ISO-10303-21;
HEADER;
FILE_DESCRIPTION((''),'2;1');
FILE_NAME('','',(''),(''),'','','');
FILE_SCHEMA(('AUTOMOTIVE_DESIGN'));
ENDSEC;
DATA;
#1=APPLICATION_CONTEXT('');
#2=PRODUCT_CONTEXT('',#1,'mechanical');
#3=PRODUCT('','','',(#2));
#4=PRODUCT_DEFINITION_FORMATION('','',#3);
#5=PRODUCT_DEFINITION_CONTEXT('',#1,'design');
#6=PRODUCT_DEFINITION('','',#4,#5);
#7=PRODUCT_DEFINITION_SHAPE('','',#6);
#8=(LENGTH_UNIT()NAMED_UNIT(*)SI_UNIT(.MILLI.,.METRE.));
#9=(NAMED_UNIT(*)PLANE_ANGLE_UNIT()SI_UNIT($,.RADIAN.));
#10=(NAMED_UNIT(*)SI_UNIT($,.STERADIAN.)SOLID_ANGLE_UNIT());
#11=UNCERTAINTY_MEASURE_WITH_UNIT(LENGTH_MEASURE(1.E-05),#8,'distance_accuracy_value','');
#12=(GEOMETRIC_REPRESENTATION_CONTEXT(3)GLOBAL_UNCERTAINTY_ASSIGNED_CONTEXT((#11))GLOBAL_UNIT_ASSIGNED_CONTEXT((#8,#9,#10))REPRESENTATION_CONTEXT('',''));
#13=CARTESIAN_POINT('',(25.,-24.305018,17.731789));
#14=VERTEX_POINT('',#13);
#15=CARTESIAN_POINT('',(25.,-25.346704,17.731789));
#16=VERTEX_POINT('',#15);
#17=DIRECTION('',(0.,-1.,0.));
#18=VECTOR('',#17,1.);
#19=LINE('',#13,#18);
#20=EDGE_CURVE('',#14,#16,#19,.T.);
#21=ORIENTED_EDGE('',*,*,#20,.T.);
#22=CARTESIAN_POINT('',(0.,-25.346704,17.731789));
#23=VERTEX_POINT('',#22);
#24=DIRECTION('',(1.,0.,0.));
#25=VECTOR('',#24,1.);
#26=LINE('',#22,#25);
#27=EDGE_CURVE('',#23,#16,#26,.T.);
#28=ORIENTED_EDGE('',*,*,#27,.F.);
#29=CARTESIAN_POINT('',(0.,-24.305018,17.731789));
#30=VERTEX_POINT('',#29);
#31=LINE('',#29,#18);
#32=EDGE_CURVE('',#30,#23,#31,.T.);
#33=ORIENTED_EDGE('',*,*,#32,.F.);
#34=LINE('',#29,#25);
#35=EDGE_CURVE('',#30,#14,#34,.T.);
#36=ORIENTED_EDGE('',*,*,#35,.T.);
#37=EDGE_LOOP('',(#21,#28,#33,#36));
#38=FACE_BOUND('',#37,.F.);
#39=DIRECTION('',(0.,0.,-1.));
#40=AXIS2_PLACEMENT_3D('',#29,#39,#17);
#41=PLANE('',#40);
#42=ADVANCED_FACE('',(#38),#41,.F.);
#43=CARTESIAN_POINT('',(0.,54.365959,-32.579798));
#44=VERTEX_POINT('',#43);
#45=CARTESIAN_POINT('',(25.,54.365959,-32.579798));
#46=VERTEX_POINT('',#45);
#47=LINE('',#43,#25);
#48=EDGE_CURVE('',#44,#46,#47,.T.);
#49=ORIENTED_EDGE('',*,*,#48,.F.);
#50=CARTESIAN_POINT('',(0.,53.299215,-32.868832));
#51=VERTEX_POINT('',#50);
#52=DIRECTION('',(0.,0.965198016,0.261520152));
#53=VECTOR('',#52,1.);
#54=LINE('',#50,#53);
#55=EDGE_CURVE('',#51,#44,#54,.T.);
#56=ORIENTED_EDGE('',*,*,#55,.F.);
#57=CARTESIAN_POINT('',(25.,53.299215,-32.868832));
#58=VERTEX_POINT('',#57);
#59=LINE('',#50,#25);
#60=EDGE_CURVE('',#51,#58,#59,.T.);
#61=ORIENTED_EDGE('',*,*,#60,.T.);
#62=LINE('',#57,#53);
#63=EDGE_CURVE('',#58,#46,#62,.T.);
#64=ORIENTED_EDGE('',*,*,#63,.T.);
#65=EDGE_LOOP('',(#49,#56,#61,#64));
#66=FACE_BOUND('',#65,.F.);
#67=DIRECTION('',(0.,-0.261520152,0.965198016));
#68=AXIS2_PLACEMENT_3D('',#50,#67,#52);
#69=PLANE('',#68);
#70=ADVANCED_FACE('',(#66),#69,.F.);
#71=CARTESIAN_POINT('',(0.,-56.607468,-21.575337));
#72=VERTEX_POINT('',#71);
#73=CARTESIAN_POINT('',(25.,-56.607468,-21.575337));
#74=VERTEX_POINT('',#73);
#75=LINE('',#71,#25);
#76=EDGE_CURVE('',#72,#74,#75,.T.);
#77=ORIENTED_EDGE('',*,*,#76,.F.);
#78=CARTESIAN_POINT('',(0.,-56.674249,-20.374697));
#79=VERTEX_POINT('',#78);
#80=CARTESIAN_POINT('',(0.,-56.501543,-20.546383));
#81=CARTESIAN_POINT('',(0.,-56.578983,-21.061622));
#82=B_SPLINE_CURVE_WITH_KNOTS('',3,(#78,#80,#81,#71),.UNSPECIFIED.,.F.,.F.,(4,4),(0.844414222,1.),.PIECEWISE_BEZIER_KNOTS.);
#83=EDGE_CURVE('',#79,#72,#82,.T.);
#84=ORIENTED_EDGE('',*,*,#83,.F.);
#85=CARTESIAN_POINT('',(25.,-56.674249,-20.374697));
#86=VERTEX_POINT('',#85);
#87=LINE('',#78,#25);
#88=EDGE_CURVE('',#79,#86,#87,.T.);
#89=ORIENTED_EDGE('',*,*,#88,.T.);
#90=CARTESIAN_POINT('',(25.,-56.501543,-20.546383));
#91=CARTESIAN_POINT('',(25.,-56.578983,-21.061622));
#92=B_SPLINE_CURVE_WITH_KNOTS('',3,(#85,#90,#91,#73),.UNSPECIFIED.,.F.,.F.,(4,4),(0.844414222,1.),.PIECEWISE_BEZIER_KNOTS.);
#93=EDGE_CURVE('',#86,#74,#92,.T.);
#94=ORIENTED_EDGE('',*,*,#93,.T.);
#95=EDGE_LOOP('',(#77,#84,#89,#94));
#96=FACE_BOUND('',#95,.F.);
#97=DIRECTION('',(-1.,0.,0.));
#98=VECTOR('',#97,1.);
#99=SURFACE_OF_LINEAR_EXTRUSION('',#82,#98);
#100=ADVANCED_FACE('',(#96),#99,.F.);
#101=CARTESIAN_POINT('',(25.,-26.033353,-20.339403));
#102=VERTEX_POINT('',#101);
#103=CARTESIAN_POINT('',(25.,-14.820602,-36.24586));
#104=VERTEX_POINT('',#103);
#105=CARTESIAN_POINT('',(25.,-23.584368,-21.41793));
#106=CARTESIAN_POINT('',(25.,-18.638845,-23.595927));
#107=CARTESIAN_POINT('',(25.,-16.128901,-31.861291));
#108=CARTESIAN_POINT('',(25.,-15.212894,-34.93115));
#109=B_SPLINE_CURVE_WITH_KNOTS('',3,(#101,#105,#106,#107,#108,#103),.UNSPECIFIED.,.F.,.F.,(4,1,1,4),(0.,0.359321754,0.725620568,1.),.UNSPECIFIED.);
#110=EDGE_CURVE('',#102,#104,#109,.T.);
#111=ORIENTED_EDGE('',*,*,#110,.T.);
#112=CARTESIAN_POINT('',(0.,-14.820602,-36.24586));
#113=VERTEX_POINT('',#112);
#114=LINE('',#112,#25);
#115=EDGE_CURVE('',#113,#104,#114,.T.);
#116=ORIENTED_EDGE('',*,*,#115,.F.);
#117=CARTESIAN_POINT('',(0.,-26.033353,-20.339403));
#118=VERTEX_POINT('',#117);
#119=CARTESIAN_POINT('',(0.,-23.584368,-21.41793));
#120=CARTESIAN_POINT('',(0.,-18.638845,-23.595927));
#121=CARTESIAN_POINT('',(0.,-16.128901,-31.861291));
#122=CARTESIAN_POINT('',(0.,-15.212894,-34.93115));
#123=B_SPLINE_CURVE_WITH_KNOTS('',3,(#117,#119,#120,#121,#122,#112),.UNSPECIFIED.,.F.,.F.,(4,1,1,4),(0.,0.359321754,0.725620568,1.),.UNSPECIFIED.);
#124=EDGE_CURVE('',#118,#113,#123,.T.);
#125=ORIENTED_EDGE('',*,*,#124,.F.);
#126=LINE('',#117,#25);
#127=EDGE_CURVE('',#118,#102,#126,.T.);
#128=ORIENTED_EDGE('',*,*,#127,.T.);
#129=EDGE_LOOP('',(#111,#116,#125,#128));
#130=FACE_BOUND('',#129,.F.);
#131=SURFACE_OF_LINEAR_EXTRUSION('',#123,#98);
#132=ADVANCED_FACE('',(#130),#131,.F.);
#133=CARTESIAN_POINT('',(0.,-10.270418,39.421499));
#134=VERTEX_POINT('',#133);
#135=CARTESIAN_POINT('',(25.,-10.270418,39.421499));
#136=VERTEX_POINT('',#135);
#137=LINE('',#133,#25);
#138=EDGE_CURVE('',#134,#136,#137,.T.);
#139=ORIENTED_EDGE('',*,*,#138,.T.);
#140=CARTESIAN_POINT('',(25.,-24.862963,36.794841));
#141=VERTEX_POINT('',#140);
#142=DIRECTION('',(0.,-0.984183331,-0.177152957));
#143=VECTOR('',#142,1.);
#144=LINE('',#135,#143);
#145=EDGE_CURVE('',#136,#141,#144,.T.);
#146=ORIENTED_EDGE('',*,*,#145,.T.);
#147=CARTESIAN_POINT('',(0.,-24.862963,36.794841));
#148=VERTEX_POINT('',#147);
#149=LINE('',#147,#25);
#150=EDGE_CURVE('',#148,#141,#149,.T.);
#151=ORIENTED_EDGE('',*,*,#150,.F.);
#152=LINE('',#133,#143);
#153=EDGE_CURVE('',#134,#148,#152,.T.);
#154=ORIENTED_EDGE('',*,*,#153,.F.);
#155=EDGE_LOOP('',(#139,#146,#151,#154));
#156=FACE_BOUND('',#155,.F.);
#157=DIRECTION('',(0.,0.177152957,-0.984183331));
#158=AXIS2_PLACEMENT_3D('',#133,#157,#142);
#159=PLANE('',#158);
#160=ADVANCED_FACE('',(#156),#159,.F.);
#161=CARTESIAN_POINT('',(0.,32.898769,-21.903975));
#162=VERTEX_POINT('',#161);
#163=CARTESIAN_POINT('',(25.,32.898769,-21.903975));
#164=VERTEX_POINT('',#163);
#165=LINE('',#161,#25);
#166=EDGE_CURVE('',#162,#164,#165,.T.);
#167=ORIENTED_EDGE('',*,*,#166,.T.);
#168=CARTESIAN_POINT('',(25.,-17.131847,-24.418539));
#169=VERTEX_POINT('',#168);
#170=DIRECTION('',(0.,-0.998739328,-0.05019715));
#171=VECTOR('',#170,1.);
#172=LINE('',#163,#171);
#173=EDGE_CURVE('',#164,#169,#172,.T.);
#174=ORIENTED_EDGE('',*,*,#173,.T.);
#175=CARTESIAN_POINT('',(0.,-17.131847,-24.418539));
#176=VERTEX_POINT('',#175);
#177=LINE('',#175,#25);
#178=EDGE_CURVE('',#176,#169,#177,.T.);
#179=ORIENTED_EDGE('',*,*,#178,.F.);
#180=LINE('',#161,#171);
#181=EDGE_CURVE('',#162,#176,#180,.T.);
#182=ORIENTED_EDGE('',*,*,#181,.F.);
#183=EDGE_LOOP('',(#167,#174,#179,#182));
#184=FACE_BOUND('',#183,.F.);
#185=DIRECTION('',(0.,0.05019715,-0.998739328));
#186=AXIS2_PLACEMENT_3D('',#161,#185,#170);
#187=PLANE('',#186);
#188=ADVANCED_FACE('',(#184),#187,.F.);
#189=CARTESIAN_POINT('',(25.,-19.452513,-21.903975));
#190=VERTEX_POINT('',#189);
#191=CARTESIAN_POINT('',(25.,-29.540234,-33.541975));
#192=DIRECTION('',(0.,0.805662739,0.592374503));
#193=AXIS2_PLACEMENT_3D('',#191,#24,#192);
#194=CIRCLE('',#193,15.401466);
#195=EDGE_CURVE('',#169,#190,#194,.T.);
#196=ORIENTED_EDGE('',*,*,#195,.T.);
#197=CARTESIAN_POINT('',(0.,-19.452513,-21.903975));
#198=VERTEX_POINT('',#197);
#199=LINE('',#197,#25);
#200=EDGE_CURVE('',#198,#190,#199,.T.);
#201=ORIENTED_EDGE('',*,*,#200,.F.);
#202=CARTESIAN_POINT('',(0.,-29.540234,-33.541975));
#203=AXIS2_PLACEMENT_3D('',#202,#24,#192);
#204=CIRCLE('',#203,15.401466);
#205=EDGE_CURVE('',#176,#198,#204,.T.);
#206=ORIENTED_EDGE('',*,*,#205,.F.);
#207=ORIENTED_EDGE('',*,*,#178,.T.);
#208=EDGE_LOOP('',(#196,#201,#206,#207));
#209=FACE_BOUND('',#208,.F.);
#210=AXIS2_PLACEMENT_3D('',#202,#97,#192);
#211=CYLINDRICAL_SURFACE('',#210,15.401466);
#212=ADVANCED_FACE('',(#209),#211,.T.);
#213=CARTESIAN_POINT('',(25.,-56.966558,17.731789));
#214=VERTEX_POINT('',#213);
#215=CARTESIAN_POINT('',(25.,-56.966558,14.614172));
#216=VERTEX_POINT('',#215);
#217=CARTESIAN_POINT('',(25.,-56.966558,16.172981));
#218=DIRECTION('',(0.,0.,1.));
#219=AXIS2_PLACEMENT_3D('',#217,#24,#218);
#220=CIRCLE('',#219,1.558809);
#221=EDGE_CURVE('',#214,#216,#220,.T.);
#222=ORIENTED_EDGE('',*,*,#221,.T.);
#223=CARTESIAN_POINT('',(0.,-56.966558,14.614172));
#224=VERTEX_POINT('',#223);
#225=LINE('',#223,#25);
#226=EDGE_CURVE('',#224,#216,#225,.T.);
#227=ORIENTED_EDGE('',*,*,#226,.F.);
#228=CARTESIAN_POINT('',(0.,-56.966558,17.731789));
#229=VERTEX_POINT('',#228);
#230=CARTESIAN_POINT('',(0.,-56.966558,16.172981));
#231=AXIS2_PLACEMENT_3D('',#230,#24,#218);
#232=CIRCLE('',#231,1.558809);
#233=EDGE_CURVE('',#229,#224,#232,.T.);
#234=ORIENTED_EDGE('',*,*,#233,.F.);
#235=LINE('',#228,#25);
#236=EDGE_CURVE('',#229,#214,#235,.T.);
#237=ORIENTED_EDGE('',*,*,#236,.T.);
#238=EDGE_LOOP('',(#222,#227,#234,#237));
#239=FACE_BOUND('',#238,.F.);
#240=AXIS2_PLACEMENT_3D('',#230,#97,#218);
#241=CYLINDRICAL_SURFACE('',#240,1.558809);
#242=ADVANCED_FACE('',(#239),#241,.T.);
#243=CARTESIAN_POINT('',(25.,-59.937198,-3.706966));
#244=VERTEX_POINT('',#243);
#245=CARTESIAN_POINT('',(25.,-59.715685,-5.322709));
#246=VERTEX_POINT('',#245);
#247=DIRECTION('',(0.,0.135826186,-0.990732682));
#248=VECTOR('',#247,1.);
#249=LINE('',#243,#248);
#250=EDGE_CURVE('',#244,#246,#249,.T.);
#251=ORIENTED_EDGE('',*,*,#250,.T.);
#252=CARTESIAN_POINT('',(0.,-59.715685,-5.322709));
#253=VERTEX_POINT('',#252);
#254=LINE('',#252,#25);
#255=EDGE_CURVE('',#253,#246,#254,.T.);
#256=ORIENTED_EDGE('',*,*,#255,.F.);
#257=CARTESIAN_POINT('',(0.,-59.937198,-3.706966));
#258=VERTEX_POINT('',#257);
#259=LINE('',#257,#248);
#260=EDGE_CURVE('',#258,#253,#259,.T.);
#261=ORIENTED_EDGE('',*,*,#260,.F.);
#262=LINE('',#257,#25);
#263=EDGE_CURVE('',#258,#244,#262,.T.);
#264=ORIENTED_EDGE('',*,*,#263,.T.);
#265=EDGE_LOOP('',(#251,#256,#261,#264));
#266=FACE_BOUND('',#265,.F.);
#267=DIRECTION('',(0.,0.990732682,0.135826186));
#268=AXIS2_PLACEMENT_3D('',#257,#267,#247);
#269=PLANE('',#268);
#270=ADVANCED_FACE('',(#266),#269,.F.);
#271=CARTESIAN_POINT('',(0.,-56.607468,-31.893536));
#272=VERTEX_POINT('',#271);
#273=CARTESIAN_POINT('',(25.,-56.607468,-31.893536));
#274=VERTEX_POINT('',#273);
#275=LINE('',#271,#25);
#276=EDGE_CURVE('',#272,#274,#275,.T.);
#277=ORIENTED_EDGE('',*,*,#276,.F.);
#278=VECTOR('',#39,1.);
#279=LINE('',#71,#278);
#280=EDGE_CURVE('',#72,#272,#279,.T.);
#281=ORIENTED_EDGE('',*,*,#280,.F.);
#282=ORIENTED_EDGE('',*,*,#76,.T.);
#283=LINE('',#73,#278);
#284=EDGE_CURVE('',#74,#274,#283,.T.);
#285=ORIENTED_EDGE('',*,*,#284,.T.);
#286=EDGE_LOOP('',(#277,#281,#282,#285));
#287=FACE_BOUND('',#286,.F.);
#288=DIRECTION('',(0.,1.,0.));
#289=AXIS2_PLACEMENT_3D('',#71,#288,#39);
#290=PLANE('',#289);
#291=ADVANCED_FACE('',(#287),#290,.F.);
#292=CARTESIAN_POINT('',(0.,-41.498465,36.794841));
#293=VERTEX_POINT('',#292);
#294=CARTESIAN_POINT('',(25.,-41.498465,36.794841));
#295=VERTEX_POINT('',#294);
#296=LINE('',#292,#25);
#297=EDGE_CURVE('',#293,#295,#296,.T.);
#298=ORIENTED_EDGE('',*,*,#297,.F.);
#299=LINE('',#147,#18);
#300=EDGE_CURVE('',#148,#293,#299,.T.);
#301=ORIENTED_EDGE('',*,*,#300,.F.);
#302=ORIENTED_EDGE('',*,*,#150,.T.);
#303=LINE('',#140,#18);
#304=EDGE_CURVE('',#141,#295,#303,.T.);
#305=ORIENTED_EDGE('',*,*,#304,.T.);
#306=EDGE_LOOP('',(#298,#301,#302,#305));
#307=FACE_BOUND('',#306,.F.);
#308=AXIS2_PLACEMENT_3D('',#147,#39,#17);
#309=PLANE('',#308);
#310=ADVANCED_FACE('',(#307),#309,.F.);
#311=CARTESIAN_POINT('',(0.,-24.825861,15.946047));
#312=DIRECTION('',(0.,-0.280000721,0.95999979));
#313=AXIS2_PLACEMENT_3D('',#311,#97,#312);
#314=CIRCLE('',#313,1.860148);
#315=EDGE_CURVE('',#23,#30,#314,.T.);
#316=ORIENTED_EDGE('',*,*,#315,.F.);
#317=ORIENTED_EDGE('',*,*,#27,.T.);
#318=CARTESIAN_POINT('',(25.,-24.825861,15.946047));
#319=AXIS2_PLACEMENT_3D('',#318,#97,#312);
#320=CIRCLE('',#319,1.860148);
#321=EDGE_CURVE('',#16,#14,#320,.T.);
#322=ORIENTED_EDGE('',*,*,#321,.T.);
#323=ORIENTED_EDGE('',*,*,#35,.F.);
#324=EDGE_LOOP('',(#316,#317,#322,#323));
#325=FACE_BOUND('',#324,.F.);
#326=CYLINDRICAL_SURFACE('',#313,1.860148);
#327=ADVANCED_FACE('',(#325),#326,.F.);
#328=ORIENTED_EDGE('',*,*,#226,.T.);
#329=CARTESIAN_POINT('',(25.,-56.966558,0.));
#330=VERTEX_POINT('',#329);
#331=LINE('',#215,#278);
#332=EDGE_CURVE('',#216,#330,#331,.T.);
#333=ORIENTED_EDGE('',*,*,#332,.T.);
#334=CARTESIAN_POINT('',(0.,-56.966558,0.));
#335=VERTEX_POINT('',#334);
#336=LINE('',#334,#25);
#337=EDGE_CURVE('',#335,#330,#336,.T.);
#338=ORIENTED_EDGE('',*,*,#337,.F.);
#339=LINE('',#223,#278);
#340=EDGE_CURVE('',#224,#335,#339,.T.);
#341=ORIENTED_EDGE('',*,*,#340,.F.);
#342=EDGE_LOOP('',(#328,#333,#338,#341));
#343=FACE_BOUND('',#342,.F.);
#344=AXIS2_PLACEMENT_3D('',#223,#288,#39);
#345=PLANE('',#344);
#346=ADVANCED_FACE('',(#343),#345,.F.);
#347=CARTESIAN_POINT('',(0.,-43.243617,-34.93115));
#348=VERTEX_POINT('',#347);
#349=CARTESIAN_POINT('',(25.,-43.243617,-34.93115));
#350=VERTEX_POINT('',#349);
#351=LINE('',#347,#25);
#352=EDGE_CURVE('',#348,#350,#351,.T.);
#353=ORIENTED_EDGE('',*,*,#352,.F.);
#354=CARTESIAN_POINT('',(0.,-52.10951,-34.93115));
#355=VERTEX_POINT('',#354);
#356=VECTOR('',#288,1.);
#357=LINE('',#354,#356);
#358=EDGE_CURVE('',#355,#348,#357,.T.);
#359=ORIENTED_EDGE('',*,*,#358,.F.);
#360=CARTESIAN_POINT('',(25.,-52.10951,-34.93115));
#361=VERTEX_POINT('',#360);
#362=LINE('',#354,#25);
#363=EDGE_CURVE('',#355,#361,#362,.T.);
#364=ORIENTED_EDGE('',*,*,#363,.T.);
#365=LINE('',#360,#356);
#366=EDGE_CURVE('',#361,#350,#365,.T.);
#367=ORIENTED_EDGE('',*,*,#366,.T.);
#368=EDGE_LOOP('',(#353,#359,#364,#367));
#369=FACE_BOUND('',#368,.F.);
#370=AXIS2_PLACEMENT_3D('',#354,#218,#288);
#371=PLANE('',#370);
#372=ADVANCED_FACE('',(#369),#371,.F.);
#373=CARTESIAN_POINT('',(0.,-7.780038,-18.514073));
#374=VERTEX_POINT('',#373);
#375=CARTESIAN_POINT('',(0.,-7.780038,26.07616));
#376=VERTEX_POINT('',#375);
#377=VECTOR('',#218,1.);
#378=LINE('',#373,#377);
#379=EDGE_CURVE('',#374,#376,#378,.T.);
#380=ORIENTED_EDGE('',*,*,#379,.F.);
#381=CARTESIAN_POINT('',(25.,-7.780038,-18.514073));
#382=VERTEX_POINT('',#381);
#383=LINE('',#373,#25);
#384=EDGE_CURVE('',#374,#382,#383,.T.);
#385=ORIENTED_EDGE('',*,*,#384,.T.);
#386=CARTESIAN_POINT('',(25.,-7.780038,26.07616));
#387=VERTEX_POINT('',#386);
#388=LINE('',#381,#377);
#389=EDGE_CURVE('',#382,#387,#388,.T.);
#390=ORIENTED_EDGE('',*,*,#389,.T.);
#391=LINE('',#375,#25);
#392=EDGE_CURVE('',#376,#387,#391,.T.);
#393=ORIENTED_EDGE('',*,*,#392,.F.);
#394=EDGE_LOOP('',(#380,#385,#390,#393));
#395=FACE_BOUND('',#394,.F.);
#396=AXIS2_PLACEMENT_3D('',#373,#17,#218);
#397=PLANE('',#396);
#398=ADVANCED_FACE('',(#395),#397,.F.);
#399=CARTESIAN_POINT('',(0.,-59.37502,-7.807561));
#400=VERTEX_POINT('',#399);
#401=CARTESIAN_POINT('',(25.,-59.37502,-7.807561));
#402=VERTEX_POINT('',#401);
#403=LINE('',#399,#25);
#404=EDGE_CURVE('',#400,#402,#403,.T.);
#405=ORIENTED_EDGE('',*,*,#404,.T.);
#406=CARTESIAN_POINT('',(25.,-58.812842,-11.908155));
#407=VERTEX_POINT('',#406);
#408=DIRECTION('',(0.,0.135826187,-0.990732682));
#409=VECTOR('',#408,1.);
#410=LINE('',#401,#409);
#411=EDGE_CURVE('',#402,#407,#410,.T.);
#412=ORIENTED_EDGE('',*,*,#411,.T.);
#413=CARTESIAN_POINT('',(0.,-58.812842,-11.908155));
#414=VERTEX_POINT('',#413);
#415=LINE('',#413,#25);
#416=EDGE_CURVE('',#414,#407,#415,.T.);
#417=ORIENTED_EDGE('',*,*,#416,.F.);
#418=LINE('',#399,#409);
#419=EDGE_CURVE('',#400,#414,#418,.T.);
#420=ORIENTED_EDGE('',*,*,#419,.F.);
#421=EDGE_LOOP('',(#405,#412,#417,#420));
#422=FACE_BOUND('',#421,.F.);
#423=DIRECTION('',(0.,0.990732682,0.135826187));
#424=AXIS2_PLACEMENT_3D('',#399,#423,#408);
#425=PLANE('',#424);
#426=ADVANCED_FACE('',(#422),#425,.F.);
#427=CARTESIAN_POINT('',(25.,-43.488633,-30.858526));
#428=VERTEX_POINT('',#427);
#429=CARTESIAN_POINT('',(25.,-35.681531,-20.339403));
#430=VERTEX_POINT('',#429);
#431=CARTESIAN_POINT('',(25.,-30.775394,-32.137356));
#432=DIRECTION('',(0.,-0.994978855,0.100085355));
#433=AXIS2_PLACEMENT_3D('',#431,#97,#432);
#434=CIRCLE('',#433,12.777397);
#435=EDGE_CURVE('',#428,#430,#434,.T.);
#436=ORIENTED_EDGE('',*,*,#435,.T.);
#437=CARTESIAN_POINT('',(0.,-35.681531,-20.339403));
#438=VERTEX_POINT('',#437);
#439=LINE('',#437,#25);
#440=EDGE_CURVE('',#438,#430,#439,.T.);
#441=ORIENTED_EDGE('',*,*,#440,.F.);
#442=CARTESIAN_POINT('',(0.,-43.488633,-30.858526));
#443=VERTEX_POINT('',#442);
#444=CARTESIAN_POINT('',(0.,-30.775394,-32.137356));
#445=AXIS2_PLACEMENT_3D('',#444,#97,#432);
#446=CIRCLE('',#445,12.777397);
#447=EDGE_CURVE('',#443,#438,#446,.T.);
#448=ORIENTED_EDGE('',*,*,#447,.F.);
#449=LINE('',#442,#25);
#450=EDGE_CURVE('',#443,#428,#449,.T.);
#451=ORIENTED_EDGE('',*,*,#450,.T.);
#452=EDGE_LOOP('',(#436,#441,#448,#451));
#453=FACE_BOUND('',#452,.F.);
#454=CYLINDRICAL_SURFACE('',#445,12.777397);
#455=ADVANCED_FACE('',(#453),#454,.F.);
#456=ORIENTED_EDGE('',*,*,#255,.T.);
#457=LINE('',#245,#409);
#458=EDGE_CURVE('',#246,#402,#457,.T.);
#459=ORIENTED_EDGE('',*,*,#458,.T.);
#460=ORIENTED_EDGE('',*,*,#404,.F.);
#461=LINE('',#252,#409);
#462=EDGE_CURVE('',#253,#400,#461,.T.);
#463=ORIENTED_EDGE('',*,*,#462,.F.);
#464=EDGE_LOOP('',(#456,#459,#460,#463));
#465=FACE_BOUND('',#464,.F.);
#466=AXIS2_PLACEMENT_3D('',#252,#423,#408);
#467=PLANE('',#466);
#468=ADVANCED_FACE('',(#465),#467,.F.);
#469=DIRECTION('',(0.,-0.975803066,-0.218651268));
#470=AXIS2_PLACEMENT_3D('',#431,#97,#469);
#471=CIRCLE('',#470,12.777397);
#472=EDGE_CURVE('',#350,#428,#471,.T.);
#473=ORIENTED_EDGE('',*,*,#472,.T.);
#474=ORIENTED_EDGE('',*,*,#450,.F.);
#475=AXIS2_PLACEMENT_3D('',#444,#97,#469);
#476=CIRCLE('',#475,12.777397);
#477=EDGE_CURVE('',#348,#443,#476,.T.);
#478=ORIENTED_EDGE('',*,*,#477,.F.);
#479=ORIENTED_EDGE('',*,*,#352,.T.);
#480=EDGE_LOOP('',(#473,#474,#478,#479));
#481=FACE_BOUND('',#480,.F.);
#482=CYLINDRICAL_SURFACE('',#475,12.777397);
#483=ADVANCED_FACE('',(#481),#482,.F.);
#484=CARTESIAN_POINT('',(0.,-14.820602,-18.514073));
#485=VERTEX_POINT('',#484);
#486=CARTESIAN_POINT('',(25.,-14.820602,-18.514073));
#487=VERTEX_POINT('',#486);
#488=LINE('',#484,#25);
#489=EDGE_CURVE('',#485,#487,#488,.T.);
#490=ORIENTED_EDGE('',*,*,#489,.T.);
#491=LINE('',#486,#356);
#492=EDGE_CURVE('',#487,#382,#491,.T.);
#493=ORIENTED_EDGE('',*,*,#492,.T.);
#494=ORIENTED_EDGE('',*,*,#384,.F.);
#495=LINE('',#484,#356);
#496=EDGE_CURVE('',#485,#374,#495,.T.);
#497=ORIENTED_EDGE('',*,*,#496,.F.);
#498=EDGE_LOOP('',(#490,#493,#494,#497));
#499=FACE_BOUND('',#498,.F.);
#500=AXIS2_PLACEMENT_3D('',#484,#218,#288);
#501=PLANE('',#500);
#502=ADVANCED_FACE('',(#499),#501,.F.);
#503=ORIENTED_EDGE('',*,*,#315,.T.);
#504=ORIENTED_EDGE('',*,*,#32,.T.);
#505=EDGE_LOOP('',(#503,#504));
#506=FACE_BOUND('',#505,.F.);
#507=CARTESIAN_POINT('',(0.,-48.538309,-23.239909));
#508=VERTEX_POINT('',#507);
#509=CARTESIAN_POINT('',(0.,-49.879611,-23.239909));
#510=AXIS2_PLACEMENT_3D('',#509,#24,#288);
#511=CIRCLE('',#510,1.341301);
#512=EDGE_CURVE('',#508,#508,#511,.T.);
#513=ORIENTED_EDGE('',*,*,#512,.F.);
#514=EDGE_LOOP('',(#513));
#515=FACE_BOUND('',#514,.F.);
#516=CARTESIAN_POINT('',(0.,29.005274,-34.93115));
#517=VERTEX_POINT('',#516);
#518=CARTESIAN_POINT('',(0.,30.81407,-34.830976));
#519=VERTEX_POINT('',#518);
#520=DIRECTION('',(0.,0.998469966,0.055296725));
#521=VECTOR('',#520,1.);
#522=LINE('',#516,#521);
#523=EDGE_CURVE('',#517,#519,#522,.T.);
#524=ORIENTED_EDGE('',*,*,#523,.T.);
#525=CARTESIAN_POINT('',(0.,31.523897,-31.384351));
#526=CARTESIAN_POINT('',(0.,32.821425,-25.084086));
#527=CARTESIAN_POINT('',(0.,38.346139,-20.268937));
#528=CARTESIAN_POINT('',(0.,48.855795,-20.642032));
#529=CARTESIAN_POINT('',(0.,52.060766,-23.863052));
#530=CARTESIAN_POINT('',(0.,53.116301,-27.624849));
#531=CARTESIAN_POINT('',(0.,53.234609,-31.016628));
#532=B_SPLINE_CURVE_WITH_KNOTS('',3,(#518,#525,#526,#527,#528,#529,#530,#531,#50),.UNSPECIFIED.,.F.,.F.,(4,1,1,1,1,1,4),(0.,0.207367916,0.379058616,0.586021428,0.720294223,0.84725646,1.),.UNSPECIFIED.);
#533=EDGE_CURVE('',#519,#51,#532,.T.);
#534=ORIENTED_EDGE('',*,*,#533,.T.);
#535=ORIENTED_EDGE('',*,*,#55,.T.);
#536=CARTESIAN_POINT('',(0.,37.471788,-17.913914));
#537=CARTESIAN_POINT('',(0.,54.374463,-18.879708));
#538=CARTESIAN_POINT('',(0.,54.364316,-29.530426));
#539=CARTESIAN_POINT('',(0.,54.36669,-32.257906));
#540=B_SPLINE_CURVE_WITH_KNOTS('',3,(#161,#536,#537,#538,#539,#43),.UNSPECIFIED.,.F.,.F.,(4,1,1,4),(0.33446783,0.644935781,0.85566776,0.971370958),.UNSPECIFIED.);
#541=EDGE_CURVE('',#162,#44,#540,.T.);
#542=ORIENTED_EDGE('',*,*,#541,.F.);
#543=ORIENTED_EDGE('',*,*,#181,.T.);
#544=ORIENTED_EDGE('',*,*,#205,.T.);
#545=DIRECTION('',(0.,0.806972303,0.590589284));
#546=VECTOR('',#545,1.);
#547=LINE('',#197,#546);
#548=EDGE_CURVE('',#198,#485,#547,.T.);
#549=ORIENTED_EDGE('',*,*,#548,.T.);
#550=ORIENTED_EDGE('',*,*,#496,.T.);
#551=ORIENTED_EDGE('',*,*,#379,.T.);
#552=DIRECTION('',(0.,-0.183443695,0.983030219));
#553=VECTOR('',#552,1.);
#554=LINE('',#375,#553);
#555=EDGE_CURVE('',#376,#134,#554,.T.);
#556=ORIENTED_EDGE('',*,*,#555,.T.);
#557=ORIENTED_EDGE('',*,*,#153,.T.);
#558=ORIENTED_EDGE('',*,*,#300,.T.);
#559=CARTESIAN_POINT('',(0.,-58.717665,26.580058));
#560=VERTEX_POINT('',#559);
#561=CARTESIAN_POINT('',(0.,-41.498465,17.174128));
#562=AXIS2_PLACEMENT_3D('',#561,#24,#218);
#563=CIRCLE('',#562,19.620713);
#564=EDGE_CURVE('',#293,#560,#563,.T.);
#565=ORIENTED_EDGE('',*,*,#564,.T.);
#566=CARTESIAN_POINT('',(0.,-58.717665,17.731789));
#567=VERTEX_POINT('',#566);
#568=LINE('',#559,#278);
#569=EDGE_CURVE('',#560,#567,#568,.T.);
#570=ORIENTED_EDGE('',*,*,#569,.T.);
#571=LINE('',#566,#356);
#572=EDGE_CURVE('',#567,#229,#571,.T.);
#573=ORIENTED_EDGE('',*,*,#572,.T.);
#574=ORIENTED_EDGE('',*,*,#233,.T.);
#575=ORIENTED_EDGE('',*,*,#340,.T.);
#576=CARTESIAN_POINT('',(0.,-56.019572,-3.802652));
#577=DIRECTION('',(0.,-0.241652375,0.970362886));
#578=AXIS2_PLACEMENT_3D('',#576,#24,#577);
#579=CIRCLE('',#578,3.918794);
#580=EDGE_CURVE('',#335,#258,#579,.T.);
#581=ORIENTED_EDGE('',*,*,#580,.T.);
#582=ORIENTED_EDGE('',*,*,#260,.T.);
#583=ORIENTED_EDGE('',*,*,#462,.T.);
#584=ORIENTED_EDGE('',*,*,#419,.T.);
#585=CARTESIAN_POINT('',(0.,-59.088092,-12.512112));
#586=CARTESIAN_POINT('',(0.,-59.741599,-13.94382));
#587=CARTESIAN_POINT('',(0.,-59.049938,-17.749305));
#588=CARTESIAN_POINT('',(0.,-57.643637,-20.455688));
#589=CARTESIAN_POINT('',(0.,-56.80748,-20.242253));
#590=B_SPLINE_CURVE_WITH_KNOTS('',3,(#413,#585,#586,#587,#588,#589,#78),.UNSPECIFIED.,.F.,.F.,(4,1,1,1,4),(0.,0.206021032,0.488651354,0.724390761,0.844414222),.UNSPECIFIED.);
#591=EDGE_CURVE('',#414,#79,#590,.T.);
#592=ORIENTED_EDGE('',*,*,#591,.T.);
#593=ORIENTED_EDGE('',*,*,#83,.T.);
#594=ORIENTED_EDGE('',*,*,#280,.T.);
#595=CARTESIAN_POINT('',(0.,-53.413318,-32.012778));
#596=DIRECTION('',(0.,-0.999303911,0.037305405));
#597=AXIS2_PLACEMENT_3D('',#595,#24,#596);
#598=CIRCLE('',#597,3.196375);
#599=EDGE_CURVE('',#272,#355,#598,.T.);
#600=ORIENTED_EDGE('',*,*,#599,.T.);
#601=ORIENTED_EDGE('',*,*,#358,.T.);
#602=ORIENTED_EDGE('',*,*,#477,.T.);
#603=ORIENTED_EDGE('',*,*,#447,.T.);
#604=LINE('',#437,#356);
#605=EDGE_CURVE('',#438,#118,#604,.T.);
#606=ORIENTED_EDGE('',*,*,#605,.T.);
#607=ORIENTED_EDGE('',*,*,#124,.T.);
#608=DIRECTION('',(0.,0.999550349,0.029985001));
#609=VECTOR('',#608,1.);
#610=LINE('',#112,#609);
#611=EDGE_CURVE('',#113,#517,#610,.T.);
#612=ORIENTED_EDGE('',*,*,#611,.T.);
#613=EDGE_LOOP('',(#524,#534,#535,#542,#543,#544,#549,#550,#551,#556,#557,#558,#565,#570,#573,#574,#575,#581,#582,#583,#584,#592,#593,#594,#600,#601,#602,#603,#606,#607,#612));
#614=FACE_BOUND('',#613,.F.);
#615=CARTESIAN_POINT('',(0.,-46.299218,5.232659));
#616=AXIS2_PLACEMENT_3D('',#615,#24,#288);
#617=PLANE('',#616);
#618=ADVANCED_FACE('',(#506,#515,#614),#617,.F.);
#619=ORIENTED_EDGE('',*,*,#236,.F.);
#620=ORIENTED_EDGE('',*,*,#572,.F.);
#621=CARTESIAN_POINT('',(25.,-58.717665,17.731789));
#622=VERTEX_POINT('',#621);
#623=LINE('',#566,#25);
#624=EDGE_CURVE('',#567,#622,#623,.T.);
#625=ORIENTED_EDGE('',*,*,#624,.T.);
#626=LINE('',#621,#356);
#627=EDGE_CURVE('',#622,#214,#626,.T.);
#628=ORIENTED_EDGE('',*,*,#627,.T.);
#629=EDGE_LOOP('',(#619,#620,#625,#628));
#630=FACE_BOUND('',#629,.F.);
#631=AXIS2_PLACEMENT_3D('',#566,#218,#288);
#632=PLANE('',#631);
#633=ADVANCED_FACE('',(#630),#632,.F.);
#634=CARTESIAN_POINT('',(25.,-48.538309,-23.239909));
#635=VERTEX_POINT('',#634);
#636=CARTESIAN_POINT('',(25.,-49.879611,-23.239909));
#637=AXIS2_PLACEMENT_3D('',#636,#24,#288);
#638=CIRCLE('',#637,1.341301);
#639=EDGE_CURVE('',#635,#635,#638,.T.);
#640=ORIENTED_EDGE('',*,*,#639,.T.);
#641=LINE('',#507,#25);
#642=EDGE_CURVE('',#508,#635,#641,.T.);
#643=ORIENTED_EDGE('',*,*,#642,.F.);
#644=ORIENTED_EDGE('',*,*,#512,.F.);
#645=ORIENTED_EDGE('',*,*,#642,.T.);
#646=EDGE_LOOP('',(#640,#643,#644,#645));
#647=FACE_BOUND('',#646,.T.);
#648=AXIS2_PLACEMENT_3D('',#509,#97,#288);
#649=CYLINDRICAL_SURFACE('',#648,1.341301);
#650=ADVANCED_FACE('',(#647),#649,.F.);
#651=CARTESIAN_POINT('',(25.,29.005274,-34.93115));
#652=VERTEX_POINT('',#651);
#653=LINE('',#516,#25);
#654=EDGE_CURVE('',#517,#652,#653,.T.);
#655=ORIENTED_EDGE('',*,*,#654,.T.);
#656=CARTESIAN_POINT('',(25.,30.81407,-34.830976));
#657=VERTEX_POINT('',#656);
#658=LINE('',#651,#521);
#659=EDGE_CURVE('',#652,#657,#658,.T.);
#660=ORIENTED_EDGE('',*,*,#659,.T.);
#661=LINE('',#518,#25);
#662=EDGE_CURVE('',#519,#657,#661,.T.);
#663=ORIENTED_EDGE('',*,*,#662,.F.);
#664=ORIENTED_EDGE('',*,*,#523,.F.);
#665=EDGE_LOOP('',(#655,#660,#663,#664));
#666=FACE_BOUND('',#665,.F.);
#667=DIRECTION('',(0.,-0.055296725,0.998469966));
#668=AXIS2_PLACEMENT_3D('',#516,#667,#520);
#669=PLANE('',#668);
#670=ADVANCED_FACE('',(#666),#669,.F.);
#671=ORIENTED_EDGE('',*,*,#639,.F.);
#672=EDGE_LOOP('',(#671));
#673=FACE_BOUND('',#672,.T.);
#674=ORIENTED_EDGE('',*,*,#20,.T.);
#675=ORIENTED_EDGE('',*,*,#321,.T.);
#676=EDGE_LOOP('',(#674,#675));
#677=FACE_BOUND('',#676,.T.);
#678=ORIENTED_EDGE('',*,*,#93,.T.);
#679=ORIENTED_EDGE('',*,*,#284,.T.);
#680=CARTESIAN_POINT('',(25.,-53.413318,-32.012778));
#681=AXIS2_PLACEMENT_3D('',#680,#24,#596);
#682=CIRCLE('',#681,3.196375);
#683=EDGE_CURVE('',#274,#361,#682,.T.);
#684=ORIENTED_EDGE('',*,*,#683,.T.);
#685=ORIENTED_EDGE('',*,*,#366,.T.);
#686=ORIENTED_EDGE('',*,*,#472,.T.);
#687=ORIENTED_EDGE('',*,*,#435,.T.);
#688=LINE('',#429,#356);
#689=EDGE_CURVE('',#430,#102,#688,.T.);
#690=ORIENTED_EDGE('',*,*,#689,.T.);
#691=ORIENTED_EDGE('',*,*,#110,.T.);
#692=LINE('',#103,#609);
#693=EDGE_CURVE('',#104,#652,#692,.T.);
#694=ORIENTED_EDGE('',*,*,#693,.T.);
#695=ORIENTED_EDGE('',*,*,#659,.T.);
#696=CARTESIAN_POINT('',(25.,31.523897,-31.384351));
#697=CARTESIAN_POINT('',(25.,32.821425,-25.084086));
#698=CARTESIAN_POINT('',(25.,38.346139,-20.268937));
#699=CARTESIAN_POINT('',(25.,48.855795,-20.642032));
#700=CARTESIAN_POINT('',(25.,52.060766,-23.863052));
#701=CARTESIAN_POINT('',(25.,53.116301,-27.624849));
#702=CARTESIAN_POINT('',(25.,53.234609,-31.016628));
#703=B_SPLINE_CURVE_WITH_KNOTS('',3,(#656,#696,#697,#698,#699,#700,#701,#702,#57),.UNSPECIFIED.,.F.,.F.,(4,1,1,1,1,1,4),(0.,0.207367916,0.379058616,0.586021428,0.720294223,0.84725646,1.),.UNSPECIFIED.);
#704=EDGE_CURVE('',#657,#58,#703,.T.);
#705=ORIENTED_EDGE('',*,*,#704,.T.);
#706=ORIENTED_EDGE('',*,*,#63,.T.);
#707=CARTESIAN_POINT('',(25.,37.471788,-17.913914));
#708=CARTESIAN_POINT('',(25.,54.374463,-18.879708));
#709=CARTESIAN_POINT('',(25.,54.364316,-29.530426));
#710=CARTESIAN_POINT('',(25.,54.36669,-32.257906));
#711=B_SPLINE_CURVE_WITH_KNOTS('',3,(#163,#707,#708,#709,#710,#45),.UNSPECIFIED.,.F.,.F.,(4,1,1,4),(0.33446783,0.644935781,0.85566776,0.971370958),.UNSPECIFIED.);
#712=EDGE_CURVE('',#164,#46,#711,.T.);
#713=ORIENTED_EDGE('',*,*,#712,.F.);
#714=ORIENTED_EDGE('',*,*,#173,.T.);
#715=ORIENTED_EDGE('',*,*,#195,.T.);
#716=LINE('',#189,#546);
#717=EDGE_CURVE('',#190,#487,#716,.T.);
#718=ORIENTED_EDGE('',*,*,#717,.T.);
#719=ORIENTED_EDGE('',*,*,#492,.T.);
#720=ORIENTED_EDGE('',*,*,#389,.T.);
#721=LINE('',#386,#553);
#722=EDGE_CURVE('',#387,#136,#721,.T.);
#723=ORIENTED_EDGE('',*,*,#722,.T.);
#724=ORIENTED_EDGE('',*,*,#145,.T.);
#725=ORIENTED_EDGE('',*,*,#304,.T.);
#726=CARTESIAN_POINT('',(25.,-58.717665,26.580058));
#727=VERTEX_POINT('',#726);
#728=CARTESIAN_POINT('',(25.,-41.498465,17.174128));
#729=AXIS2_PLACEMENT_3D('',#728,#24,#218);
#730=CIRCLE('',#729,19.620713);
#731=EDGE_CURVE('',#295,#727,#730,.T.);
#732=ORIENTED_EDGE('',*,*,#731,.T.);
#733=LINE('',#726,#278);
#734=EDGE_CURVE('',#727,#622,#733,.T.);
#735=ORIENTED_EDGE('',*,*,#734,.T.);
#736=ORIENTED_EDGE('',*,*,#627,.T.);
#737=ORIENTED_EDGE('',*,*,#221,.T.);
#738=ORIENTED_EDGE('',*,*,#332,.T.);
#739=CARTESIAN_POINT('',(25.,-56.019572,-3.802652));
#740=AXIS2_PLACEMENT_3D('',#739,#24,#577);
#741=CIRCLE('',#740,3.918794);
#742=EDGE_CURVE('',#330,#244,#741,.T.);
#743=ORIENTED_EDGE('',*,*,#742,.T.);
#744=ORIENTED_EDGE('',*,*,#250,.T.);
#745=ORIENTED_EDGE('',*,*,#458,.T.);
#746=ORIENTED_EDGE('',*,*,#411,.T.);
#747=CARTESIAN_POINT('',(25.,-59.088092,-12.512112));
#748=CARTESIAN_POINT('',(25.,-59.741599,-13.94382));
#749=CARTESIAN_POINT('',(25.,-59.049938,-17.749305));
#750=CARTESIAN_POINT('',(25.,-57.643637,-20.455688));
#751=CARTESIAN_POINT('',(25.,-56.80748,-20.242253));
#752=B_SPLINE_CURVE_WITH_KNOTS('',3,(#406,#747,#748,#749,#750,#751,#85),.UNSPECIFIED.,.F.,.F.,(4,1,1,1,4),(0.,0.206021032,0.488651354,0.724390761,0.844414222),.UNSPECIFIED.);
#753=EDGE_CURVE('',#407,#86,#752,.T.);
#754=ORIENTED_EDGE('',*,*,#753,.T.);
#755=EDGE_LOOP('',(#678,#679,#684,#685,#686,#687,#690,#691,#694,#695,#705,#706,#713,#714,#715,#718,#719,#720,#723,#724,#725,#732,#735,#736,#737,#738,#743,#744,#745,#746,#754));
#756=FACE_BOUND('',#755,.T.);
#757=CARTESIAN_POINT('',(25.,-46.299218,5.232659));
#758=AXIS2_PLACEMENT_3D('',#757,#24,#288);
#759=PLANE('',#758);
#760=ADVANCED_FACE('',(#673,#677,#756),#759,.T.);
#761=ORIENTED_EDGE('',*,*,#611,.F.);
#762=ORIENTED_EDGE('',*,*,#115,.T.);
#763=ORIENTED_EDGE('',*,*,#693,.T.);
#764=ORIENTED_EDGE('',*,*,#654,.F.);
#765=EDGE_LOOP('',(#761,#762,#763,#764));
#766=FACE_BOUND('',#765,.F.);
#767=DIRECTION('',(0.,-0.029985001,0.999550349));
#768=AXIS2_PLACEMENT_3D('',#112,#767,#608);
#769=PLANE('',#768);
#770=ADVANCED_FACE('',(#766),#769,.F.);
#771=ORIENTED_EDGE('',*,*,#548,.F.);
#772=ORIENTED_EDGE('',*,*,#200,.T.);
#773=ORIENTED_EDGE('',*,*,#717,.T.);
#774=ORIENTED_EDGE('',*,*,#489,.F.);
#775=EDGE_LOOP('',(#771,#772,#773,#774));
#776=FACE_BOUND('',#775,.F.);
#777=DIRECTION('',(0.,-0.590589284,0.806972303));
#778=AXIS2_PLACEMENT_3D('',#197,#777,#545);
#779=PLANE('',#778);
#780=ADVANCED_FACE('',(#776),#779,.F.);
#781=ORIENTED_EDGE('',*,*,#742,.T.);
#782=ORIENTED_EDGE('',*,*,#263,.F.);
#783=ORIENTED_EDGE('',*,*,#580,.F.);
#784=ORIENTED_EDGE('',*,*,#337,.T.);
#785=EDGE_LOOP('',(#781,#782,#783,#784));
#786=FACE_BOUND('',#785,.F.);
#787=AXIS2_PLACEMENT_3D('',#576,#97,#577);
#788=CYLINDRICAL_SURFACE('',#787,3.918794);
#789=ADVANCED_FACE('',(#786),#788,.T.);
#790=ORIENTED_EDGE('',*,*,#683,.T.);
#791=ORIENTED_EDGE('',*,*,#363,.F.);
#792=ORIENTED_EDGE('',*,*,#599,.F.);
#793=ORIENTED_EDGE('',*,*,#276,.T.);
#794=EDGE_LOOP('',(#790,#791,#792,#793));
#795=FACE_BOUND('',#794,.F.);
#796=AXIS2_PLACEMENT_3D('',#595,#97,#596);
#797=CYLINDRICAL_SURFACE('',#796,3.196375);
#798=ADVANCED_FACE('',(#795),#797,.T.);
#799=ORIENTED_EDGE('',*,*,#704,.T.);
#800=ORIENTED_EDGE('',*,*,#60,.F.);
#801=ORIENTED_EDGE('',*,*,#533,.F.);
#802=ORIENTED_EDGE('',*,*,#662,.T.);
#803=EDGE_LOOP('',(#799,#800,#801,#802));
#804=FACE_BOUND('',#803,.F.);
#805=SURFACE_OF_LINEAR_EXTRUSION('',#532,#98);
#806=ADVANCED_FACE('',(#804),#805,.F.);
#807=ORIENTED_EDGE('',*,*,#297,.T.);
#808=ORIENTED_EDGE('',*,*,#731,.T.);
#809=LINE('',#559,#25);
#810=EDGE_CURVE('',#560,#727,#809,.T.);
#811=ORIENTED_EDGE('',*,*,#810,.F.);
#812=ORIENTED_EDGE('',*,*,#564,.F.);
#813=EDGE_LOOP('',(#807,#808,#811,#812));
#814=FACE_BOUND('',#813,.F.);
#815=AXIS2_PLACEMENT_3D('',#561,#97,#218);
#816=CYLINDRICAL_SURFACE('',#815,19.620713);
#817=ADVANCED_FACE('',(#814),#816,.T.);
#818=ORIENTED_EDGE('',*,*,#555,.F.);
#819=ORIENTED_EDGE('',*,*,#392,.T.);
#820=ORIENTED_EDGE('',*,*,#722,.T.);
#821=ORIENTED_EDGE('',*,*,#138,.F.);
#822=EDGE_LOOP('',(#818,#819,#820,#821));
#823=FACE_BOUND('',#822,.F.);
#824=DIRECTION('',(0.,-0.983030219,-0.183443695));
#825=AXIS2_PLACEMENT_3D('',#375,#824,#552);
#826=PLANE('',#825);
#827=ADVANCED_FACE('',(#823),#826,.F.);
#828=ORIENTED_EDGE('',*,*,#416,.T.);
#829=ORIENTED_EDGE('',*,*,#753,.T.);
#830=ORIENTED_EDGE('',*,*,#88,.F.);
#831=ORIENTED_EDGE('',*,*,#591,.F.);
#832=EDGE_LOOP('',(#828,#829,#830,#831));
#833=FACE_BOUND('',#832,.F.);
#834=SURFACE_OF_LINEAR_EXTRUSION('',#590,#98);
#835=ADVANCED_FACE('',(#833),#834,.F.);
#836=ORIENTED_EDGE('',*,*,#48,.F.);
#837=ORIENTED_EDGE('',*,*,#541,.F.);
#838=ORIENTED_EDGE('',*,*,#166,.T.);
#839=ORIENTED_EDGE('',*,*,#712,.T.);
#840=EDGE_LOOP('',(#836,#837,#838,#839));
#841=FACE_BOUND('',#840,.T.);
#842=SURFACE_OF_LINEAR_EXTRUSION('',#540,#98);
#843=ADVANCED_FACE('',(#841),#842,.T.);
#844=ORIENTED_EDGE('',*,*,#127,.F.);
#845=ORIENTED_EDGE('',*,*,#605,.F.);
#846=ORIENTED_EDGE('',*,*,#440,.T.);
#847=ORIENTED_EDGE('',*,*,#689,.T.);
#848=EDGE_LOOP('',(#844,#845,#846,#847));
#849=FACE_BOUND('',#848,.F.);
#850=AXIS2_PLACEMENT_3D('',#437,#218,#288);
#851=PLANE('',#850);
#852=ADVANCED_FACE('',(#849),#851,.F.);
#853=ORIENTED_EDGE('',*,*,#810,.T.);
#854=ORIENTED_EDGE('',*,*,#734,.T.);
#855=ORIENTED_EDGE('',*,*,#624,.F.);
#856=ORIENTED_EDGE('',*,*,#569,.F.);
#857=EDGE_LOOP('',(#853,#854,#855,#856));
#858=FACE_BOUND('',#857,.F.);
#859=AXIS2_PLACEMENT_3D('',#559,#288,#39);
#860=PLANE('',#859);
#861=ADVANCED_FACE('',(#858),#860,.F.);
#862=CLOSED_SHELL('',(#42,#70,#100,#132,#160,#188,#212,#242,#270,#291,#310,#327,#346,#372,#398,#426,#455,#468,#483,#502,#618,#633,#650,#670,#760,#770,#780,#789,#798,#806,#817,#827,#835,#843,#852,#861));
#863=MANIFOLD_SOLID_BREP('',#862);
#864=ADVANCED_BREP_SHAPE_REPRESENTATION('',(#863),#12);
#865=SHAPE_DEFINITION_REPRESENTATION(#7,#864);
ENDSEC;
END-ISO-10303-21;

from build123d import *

# Parameters (mm, degrees)
F0_R     = 1.3413013151
F1_DEPTH = 25


with BuildPart() as f1:
    # F0 (on Right) → F1 (new body)
    with BuildSketch(Plane.YZ):
        with BuildLine():
            Line((-59.7156846646, -5.3227093567), (-59.375019744, -7.8075606143))
            Line((-59.375019744, -7.8075606143), (-55.9374617497, -7.8075606143))
            Line((-55.9374617497, -7.8075606143), (-33.3346764091, -5.6247393992))
            Line((-33.3346764091, -5.6247393992), (-33.3346764091, -2.3953433202))
            Line((-33.3346764091, -2.3953433202), (-33.3346764091, 2.3429190912))
            Line((-33.3346764091, 2.3429190912), (-33.3346764091, 17.7317894995))
            Line((-33.3346764091, 17.7317894995), (-56.9665580988, 17.7317894995))
            ThreePointArc((-56.9665580988, 17.7317894995), (-58.5253667086, 16.1729808897), (-56.9665580988, 14.6141722798))
            Line((-56.9665580988, 14.6141722798), (-56.9665580988, 0))
            ThreePointArc((-56.9665580988, 0), (-59.0775962213, -1.3520532806), (-59.937197715, -3.706966294))
            Line((-59.937197715, -3.706966294), (-59.7156846646, -5.3227093567))
        make_face()
        with BuildLine():
            Line((-58.7176652625, 17.7317894995), (-56.9665580988, 17.7317894995))
            Line((-56.9665580988, 17.7317894995), (-33.3346764091, 17.7317894995))
            Line((-33.3346764091, 17.7317894995), (-25.3467038274, 17.7317894995))
            ThreePointArc((-25.3467038274, 17.7317894995), (-24.8258609208, 17.8061958286), (-24.3050180143, 17.7317894995))
            Line((-24.3050180143, 17.7317894995), (-20.1933458447, 17.7317894995))
            add(Edge.make_bspline(
                [(-20.1933458447, 17.7317894995), (-20.1273708915, 21.1809682656), (-20.2524642573, 26.8966571713), (-23.6691484873, 28.1730388401), (-25.4466654733, 28.6230146885)],
                knots=[0, 0, 0, 0, 0.5753069191, 1, 1, 1, 1], degree=3))
            Line((-25.4466654733, 28.6230146885), (-25.4466654733, 36.7948412895))
            Line((-25.4466654733, 36.7948412895), (-41.4984645322, 36.7948412895))
            ThreePointArc((-41.4984645322, 36.7948412895), (-51.5089923737, 34.0490123941), (-58.7176652625, 26.5800580382))
            Line((-58.7176652625, 26.5800580382), (-58.7176652625, 17.7317894995))
        make_face()
        with BuildLine():
            Line((-33.3346764091, 17.7317894995), (-33.3346764091, 2.3429190912))
            Line((-33.3346764091, 2.3429190912), (-25.3467038274, 3.7005587947))
            ThreePointArc((-25.3467038274, 3.7005587947), (-23.6209226102, 5.0092447236), (-22.9657124728, 7.0736282505))
            Line((-22.9657124728, 7.0736282505), (-22.9657124728, 15.9460473806))
            ThreePointArc((-22.9657124728, 15.9460473806), (-23.3377417433, 17.0621358906), (-24.3050180143, 17.7317894995))
            Line((-24.3050180143, 17.7317894995), (-25.3467038274, 17.7317894995))
            Line((-25.3467038274, 17.7317894995), (-33.3346764091, 17.7317894995))
        make_face()
        with BuildLine():
            Line((-59.375019744, -7.8075606143), (-58.812841773, -11.9081549346))
            Line((-58.812841773, -11.9081549346), (-56.2285371125, -11.9081549346))
            Line((-56.2285371125, -11.9081549346), (-55.1892034709, -20.3746967018))
            Line((-55.1892034709, -20.3746967018), (-44.014878571, -19.8975186795))
            Line((-44.014878571, -19.8975186795), (-38.4535634784, -15.2970959109))
            Line((-38.4535634784, -15.2970959109), (-7.780038286, -14.0707446262))
            Line((-7.780038286, -14.0707446262), (-7.780038286, 26.0761603713))
            Line((-7.780038286, 26.0761603713), (-10.2704176679, 39.4214987755))
            Line((-10.2704176679, 39.4214987755), (-24.8629627749, 36.7948412895))
            Line((-24.8629627749, 36.7948412895), (-25.4466654733, 36.7948412895))
            Line((-25.4466654733, 36.7948412895), (-25.4466654733, 28.6230146885))
            add(Edge.make_bspline(
                [(-20.1933458447, 17.7317894995), (-20.1273708915, 21.1809682656), (-20.2524642573, 26.8966571713), (-23.6691484873, 28.1730388401), (-25.4466654733, 28.6230146885)],
                knots=[0, 0, 0, 0, 0.5753069191, 1, 1, 1, 1], degree=3))
            Line((-20.1933458447, 17.7317894995), (-24.3050180143, 17.7317894995))
            ThreePointArc((-24.3050180143, 17.7317894995), (-23.3377417433, 17.0621358906), (-22.9657124728, 15.9460473806))
            Line((-22.9657124728, 15.9460473806), (-22.9657124728, 7.0736282505))
            ThreePointArc((-22.9657124728, 7.0736282505), (-23.6209226102, 5.0092447236), (-25.3467038274, 3.7005587947))
            Line((-25.3467038274, 3.7005587947), (-33.3346764091, 2.3429190912))
            Line((-33.3346764091, 2.3429190912), (-33.3346764091, -2.3953433202))
            Line((-33.3346764091, -2.3953433202), (-33.3346764091, -5.6247393992))
            Line((-33.3346764091, -5.6247393992), (-55.9374617497, -7.8075606143))
            Line((-55.9374617497, -7.8075606143), (-59.375019744, -7.8075606143))
        make_face()
        with BuildLine():
            Line((-33.3346764091, -10.6459222734), (-33.3346764091, -6.5242550336))
            Line((-33.3346764091, -6.5242550336), (-30.7647838399, -6.5242550336))
            Line((-30.7647838399, -6.5242550336), (-18.2555336505, -5.3161978722))
            Line((-18.2555336505, -5.3161978722), (-18.2555336505, -12.643808499))
            Line((-18.2555336505, -12.643808499), (-30.8102872972, -13.1457572697))
            Line((-30.8102872972, -13.1457572697), (-33.3346764091, -13.2466843007))
            Line((-33.3346764091, -13.2466843007), (-43.0865399539, -13.6365713552))
            Line((-43.0865399539, -13.6365713552), (-44.5091923977, -13.0241444813))
            Line((-44.5091923977, -13.0241444813), (-40.7882420624, -7.8148144776))
            Line((-40.7882420624, -7.8148144776), (-36.5414358675, -6.4670089632))
            ThreePointArc((-36.5414358675, -6.4670089632), (-38.4535634784, -8.2143949485), (-39.346460253, -10.6459222734))
            Line((-39.346460253, -10.6459222734), (-33.3346764091, -10.6459222734))
        make_face(mode=Mode.SUBTRACT)
        Polygon((-18.2555336505, -5.3161978722), (-30.7647838399, -6.5242550336), (-31.4434171614, -6.5897927622), (-30.8102872972, -13.1457572697), (-18.2555336505, -12.643808499), align=None)
        with BuildLine():
            Line((-33.3346764091, -13.2466843007), (-33.3346764091, -10.6459222734))
            Line((-33.3346764091, -10.6459222734), (-39.346460253, -10.6459222734))
            ThreePointArc((-39.346460253, -10.6459222734), (-38.4535634784, -8.2143949485), (-36.5414358675, -6.4670089632))
            Line((-36.5414358675, -6.4670089632), (-40.7882420624, -7.8148144776))
            Line((-40.7882420624, -7.8148144776), (-44.5091923977, -13.0241444813))
            Line((-44.5091923977, -13.0241444813), (-43.0865399539, -13.6365713552))
            Line((-43.0865399539, -13.6365713552), (-33.3346764091, -13.2466843007))
        make_face()
        Polygon((-30.7647838399, -6.5242550336), (-33.3346764091, -6.5242550336), (-33.3346764091, -10.6459222734), (-33.3346764091, -13.2466843007), (-30.8102872972, -13.1457572697), (-31.4434171614, -6.5897927622), align=None)
        with BuildLine():
            add(Edge.make_bspline(
                [(-58.812841773, -11.9081549346), (-59.0880915502, -12.5121118478), (-59.7415991693, -13.9438196544), (-59.0499376213, -17.7493049639), (-57.6436367472, -20.4556878145), (-56.8074801086, -20.2422530768), (-56.6742494702, -20.3746967018)],
                knots=[0, 0, 0, 0, 0.2060210321, 0.4886513543, 0.7243907608, 0.8444142223, 0.8444142223, 0.8444142223, 0.8444142223], degree=3))
            Line((-56.6742494702, -20.3746967018), (-55.1892034709, -20.3746967018))
            Line((-55.1892034709, -20.3746967018), (-56.2285371125, -11.9081549346))
            Line((-56.2285371125, -11.9081549346), (-58.812841773, -11.9081549346))
        make_face()
        with BuildLine():
            Line((-52.1095097065, -34.9311500469), (-43.2436168194, -34.9311500469))
            ThreePointArc((-43.2436168194, -34.9311500469), (-43.5297296599, -32.904680643), (-43.4886334872, -30.8585257352))
            ThreePointArc((-43.4886334872, -30.8585257352), (-43.4937767675, -30.8193585401), (-43.4987837121, -30.7801736833))
            ThreePointArc((-43.4987837121, -30.7801736833), (-41.8021007863, -23.2493696081), (-35.6815308332, -18.5450772681))
            Line((-35.6815308332, -18.5450772681), (-26.0333530605, -18.5450772681))
            ThreePointArc((-26.0333530605, -18.5450772681), (-22.5385309182, -19.8240557823), (-19.4525133934, -21.9039749354))
            Line((-19.4525133934, -21.9039749354), (-14.8206017911, -18.5140725225))
            Line((-14.8206017911, -18.5140725225), (-7.780038286, -18.5140725225))
            Line((-7.780038286, -18.5140725225), (-7.780038286, -14.0707446262))
            Line((-7.780038286, -14.0707446262), (-38.4535634784, -15.2970959109))
            Line((-38.4535634784, -15.2970959109), (-44.014878571, -19.8975186795))
            Line((-44.014878571, -19.8975186795), (-55.1892034709, -20.3746967018))
            Line((-55.1892034709, -20.3746967018), (-56.6742494702, -20.3746967018))
            add(Edge.make_bspline(
                [(-56.6742494702, -20.3746967018), (-56.5015432992, -20.5463826715), (-56.5789833997, -21.061622237), (-56.6074683325, -21.5753372759)],
                knots=[0.8444142223, 0.8444142223, 0.8444142223, 0.8444142223, 1, 1, 1, 1], degree=3))
            Line((-56.6074683325, -21.5753372759), (-56.6074683325, -31.8935360586))
            ThreePointArc((-56.6074683325, -31.8935360586), (-55.2022069666, -34.6616816563), (-52.1095097065, -34.9311500469))
        make_face()
        Polygon((-44.1664493774, -27.5487947282), (-43.4987837121, -30.7801736833), (-53.4819326623, -30.7801736833), (-53.8981630598, -27.5487947282), align=None, mode=Mode.SUBTRACT)
        with Locations((-49.8796105385, -23.2399087399)):
            Circle(F0_R, mode=Mode.SUBTRACT)
        with BuildLine():
            ThreePointArc((-43.4987837121, -30.7801736833), (-43.4937767675, -30.8193585401), (-43.4886334872, -30.8585257352))
            ThreePointArc((-43.4886334872, -30.8585257352), (-41.0356858712, -24.5223526476), (-35.6815308332, -20.3394033015))
            Line((-35.6815308332, -20.3394033015), (-26.0333530605, -20.3394033015))
            add(Edge.make_bspline(
                [(-26.0333530605, -20.3394033015), (-23.5843678368, -21.417930462), (-18.6388446996, -23.5959268726), (-16.1289011783, -31.861291049), (-15.2128944865, -34.9311500469), (-14.8206017911, -36.2458601594)],
                knots=[0, 0, 0, 0, 0.3593217541, 0.7256205678, 1, 1, 1, 1], degree=3))
            Line((-14.8206017911, -36.2458601594), (29.0052741766, -34.9311500469))
            add(Edge.make_bspline(
                [(29.0052741766, -34.9311500469), (28.9461622845, -34.6352556147), (29.0665782696, -33.4379145503), (29.1845194302, -25.1447405222), (32.8987687826, -21.9039749354)],
                knots=[0, 0, 0, 0, 0.0823028073, 0.3344678299, 0.3344678299, 0.3344678299, 0.3344678299], degree=3))
            Line((32.8987687826, -21.9039749354), (-17.1318468102, -24.4185392752))
            ThreePointArc((-17.1318468102, -24.4185392752), (-18.2221301436, -23.0966086911), (-19.4525133934, -21.9039749354))
            ThreePointArc((-19.4525133934, -21.9039749354), (-22.5385309182, -19.8240557823), (-26.0333530605, -18.5450772681))
            Line((-26.0333530605, -18.5450772681), (-35.6815308332, -18.5450772681))
            ThreePointArc((-35.6815308332, -18.5450772681), (-41.8021007863, -23.2493696081), (-43.4987837121, -30.7801736833))
        make_face()
        Polygon((-14.6168977418, -32.0090957925), (-14.6168977418, -29.7341951177), (-7.694104896, -29.5795624227), (26.7578526936, -28.8100176498), (25.0516771875, -32.0090957925), (-7.6398370158, -32.0090957925), align=None, mode=Mode.SUBTRACT)
        with BuildLine():
            add(Edge.make_bspline(
                [(29.0052741766, -34.9311500469), (28.9461622845, -34.6352556147), (29.0665782696, -33.4379145503), (29.1845194302, -25.1447405222), (32.8987687826, -21.9039749354)],
                knots=[0, 0, 0, 0, 0.0823028073, 0.3344678299, 0.3344678299, 0.3344678299, 0.3344678299], degree=3))
            Line((29.0052741766, -34.9311500469), (30.8140702546, -34.8309762776))
            add(Edge.make_bspline(
                [(30.8140702546, -34.8309762776), (31.5238965397, -31.3843514826), (32.8214249796, -25.0840864926), (38.3461393666, -20.2689368616), (48.8557950193, -20.6420321643), (52.0607659291, -23.863051692), (53.1163012832, -27.6248494452), (53.2346086426, -31.0166279818), (53.2992146909, -32.8688323498)],
                knots=[0, 0, 0, 0, 0.2073679163, 0.3790586156, 0.5860214277, 0.7202942231, 0.8472564596, 1, 1, 1, 1], degree=3))
            Line((53.2992146909, -32.8688323498), (54.3659590185, -32.5797982514))
            add(Edge.make_bspline(
                [(32.8987687826, -21.9039749354), (37.4717875773, -17.9139138137), (54.3744629803, -18.879708399), (54.3643162474, -29.5304261791), (54.3666904277, -32.2579057298), (54.3659590185, -32.5797982514)],
                knots=[0.3344678299, 0.3344678299, 0.3344678299, 0.3344678299, 0.6449357814, 0.85566776, 0.9713709584, 0.9713709584, 0.9713709584, 0.9713709584], degree=3))
        make_face()
        Polygon((26.7578526936, -28.8100176498), (-7.694104896, -29.5795624227), (-7.6398370158, -32.0090957925), (25.0516771875, -32.0090957925), align=None)
        Polygon((-53.4819326623, -30.7801736833), (-43.4987837121, -30.7801736833), (-44.1664493774, -27.5487947282), (-53.8981630598, -27.5487947282), align=None)
        Polygon((-7.694104896, -29.5795624227), (-14.6168977418, -29.7341951177), (-14.6168977418, -32.0090957925), (-7.6398370158, -32.0090957925), align=None)
    extrude(amount=F1_DEPTH)


solid = f1.part
